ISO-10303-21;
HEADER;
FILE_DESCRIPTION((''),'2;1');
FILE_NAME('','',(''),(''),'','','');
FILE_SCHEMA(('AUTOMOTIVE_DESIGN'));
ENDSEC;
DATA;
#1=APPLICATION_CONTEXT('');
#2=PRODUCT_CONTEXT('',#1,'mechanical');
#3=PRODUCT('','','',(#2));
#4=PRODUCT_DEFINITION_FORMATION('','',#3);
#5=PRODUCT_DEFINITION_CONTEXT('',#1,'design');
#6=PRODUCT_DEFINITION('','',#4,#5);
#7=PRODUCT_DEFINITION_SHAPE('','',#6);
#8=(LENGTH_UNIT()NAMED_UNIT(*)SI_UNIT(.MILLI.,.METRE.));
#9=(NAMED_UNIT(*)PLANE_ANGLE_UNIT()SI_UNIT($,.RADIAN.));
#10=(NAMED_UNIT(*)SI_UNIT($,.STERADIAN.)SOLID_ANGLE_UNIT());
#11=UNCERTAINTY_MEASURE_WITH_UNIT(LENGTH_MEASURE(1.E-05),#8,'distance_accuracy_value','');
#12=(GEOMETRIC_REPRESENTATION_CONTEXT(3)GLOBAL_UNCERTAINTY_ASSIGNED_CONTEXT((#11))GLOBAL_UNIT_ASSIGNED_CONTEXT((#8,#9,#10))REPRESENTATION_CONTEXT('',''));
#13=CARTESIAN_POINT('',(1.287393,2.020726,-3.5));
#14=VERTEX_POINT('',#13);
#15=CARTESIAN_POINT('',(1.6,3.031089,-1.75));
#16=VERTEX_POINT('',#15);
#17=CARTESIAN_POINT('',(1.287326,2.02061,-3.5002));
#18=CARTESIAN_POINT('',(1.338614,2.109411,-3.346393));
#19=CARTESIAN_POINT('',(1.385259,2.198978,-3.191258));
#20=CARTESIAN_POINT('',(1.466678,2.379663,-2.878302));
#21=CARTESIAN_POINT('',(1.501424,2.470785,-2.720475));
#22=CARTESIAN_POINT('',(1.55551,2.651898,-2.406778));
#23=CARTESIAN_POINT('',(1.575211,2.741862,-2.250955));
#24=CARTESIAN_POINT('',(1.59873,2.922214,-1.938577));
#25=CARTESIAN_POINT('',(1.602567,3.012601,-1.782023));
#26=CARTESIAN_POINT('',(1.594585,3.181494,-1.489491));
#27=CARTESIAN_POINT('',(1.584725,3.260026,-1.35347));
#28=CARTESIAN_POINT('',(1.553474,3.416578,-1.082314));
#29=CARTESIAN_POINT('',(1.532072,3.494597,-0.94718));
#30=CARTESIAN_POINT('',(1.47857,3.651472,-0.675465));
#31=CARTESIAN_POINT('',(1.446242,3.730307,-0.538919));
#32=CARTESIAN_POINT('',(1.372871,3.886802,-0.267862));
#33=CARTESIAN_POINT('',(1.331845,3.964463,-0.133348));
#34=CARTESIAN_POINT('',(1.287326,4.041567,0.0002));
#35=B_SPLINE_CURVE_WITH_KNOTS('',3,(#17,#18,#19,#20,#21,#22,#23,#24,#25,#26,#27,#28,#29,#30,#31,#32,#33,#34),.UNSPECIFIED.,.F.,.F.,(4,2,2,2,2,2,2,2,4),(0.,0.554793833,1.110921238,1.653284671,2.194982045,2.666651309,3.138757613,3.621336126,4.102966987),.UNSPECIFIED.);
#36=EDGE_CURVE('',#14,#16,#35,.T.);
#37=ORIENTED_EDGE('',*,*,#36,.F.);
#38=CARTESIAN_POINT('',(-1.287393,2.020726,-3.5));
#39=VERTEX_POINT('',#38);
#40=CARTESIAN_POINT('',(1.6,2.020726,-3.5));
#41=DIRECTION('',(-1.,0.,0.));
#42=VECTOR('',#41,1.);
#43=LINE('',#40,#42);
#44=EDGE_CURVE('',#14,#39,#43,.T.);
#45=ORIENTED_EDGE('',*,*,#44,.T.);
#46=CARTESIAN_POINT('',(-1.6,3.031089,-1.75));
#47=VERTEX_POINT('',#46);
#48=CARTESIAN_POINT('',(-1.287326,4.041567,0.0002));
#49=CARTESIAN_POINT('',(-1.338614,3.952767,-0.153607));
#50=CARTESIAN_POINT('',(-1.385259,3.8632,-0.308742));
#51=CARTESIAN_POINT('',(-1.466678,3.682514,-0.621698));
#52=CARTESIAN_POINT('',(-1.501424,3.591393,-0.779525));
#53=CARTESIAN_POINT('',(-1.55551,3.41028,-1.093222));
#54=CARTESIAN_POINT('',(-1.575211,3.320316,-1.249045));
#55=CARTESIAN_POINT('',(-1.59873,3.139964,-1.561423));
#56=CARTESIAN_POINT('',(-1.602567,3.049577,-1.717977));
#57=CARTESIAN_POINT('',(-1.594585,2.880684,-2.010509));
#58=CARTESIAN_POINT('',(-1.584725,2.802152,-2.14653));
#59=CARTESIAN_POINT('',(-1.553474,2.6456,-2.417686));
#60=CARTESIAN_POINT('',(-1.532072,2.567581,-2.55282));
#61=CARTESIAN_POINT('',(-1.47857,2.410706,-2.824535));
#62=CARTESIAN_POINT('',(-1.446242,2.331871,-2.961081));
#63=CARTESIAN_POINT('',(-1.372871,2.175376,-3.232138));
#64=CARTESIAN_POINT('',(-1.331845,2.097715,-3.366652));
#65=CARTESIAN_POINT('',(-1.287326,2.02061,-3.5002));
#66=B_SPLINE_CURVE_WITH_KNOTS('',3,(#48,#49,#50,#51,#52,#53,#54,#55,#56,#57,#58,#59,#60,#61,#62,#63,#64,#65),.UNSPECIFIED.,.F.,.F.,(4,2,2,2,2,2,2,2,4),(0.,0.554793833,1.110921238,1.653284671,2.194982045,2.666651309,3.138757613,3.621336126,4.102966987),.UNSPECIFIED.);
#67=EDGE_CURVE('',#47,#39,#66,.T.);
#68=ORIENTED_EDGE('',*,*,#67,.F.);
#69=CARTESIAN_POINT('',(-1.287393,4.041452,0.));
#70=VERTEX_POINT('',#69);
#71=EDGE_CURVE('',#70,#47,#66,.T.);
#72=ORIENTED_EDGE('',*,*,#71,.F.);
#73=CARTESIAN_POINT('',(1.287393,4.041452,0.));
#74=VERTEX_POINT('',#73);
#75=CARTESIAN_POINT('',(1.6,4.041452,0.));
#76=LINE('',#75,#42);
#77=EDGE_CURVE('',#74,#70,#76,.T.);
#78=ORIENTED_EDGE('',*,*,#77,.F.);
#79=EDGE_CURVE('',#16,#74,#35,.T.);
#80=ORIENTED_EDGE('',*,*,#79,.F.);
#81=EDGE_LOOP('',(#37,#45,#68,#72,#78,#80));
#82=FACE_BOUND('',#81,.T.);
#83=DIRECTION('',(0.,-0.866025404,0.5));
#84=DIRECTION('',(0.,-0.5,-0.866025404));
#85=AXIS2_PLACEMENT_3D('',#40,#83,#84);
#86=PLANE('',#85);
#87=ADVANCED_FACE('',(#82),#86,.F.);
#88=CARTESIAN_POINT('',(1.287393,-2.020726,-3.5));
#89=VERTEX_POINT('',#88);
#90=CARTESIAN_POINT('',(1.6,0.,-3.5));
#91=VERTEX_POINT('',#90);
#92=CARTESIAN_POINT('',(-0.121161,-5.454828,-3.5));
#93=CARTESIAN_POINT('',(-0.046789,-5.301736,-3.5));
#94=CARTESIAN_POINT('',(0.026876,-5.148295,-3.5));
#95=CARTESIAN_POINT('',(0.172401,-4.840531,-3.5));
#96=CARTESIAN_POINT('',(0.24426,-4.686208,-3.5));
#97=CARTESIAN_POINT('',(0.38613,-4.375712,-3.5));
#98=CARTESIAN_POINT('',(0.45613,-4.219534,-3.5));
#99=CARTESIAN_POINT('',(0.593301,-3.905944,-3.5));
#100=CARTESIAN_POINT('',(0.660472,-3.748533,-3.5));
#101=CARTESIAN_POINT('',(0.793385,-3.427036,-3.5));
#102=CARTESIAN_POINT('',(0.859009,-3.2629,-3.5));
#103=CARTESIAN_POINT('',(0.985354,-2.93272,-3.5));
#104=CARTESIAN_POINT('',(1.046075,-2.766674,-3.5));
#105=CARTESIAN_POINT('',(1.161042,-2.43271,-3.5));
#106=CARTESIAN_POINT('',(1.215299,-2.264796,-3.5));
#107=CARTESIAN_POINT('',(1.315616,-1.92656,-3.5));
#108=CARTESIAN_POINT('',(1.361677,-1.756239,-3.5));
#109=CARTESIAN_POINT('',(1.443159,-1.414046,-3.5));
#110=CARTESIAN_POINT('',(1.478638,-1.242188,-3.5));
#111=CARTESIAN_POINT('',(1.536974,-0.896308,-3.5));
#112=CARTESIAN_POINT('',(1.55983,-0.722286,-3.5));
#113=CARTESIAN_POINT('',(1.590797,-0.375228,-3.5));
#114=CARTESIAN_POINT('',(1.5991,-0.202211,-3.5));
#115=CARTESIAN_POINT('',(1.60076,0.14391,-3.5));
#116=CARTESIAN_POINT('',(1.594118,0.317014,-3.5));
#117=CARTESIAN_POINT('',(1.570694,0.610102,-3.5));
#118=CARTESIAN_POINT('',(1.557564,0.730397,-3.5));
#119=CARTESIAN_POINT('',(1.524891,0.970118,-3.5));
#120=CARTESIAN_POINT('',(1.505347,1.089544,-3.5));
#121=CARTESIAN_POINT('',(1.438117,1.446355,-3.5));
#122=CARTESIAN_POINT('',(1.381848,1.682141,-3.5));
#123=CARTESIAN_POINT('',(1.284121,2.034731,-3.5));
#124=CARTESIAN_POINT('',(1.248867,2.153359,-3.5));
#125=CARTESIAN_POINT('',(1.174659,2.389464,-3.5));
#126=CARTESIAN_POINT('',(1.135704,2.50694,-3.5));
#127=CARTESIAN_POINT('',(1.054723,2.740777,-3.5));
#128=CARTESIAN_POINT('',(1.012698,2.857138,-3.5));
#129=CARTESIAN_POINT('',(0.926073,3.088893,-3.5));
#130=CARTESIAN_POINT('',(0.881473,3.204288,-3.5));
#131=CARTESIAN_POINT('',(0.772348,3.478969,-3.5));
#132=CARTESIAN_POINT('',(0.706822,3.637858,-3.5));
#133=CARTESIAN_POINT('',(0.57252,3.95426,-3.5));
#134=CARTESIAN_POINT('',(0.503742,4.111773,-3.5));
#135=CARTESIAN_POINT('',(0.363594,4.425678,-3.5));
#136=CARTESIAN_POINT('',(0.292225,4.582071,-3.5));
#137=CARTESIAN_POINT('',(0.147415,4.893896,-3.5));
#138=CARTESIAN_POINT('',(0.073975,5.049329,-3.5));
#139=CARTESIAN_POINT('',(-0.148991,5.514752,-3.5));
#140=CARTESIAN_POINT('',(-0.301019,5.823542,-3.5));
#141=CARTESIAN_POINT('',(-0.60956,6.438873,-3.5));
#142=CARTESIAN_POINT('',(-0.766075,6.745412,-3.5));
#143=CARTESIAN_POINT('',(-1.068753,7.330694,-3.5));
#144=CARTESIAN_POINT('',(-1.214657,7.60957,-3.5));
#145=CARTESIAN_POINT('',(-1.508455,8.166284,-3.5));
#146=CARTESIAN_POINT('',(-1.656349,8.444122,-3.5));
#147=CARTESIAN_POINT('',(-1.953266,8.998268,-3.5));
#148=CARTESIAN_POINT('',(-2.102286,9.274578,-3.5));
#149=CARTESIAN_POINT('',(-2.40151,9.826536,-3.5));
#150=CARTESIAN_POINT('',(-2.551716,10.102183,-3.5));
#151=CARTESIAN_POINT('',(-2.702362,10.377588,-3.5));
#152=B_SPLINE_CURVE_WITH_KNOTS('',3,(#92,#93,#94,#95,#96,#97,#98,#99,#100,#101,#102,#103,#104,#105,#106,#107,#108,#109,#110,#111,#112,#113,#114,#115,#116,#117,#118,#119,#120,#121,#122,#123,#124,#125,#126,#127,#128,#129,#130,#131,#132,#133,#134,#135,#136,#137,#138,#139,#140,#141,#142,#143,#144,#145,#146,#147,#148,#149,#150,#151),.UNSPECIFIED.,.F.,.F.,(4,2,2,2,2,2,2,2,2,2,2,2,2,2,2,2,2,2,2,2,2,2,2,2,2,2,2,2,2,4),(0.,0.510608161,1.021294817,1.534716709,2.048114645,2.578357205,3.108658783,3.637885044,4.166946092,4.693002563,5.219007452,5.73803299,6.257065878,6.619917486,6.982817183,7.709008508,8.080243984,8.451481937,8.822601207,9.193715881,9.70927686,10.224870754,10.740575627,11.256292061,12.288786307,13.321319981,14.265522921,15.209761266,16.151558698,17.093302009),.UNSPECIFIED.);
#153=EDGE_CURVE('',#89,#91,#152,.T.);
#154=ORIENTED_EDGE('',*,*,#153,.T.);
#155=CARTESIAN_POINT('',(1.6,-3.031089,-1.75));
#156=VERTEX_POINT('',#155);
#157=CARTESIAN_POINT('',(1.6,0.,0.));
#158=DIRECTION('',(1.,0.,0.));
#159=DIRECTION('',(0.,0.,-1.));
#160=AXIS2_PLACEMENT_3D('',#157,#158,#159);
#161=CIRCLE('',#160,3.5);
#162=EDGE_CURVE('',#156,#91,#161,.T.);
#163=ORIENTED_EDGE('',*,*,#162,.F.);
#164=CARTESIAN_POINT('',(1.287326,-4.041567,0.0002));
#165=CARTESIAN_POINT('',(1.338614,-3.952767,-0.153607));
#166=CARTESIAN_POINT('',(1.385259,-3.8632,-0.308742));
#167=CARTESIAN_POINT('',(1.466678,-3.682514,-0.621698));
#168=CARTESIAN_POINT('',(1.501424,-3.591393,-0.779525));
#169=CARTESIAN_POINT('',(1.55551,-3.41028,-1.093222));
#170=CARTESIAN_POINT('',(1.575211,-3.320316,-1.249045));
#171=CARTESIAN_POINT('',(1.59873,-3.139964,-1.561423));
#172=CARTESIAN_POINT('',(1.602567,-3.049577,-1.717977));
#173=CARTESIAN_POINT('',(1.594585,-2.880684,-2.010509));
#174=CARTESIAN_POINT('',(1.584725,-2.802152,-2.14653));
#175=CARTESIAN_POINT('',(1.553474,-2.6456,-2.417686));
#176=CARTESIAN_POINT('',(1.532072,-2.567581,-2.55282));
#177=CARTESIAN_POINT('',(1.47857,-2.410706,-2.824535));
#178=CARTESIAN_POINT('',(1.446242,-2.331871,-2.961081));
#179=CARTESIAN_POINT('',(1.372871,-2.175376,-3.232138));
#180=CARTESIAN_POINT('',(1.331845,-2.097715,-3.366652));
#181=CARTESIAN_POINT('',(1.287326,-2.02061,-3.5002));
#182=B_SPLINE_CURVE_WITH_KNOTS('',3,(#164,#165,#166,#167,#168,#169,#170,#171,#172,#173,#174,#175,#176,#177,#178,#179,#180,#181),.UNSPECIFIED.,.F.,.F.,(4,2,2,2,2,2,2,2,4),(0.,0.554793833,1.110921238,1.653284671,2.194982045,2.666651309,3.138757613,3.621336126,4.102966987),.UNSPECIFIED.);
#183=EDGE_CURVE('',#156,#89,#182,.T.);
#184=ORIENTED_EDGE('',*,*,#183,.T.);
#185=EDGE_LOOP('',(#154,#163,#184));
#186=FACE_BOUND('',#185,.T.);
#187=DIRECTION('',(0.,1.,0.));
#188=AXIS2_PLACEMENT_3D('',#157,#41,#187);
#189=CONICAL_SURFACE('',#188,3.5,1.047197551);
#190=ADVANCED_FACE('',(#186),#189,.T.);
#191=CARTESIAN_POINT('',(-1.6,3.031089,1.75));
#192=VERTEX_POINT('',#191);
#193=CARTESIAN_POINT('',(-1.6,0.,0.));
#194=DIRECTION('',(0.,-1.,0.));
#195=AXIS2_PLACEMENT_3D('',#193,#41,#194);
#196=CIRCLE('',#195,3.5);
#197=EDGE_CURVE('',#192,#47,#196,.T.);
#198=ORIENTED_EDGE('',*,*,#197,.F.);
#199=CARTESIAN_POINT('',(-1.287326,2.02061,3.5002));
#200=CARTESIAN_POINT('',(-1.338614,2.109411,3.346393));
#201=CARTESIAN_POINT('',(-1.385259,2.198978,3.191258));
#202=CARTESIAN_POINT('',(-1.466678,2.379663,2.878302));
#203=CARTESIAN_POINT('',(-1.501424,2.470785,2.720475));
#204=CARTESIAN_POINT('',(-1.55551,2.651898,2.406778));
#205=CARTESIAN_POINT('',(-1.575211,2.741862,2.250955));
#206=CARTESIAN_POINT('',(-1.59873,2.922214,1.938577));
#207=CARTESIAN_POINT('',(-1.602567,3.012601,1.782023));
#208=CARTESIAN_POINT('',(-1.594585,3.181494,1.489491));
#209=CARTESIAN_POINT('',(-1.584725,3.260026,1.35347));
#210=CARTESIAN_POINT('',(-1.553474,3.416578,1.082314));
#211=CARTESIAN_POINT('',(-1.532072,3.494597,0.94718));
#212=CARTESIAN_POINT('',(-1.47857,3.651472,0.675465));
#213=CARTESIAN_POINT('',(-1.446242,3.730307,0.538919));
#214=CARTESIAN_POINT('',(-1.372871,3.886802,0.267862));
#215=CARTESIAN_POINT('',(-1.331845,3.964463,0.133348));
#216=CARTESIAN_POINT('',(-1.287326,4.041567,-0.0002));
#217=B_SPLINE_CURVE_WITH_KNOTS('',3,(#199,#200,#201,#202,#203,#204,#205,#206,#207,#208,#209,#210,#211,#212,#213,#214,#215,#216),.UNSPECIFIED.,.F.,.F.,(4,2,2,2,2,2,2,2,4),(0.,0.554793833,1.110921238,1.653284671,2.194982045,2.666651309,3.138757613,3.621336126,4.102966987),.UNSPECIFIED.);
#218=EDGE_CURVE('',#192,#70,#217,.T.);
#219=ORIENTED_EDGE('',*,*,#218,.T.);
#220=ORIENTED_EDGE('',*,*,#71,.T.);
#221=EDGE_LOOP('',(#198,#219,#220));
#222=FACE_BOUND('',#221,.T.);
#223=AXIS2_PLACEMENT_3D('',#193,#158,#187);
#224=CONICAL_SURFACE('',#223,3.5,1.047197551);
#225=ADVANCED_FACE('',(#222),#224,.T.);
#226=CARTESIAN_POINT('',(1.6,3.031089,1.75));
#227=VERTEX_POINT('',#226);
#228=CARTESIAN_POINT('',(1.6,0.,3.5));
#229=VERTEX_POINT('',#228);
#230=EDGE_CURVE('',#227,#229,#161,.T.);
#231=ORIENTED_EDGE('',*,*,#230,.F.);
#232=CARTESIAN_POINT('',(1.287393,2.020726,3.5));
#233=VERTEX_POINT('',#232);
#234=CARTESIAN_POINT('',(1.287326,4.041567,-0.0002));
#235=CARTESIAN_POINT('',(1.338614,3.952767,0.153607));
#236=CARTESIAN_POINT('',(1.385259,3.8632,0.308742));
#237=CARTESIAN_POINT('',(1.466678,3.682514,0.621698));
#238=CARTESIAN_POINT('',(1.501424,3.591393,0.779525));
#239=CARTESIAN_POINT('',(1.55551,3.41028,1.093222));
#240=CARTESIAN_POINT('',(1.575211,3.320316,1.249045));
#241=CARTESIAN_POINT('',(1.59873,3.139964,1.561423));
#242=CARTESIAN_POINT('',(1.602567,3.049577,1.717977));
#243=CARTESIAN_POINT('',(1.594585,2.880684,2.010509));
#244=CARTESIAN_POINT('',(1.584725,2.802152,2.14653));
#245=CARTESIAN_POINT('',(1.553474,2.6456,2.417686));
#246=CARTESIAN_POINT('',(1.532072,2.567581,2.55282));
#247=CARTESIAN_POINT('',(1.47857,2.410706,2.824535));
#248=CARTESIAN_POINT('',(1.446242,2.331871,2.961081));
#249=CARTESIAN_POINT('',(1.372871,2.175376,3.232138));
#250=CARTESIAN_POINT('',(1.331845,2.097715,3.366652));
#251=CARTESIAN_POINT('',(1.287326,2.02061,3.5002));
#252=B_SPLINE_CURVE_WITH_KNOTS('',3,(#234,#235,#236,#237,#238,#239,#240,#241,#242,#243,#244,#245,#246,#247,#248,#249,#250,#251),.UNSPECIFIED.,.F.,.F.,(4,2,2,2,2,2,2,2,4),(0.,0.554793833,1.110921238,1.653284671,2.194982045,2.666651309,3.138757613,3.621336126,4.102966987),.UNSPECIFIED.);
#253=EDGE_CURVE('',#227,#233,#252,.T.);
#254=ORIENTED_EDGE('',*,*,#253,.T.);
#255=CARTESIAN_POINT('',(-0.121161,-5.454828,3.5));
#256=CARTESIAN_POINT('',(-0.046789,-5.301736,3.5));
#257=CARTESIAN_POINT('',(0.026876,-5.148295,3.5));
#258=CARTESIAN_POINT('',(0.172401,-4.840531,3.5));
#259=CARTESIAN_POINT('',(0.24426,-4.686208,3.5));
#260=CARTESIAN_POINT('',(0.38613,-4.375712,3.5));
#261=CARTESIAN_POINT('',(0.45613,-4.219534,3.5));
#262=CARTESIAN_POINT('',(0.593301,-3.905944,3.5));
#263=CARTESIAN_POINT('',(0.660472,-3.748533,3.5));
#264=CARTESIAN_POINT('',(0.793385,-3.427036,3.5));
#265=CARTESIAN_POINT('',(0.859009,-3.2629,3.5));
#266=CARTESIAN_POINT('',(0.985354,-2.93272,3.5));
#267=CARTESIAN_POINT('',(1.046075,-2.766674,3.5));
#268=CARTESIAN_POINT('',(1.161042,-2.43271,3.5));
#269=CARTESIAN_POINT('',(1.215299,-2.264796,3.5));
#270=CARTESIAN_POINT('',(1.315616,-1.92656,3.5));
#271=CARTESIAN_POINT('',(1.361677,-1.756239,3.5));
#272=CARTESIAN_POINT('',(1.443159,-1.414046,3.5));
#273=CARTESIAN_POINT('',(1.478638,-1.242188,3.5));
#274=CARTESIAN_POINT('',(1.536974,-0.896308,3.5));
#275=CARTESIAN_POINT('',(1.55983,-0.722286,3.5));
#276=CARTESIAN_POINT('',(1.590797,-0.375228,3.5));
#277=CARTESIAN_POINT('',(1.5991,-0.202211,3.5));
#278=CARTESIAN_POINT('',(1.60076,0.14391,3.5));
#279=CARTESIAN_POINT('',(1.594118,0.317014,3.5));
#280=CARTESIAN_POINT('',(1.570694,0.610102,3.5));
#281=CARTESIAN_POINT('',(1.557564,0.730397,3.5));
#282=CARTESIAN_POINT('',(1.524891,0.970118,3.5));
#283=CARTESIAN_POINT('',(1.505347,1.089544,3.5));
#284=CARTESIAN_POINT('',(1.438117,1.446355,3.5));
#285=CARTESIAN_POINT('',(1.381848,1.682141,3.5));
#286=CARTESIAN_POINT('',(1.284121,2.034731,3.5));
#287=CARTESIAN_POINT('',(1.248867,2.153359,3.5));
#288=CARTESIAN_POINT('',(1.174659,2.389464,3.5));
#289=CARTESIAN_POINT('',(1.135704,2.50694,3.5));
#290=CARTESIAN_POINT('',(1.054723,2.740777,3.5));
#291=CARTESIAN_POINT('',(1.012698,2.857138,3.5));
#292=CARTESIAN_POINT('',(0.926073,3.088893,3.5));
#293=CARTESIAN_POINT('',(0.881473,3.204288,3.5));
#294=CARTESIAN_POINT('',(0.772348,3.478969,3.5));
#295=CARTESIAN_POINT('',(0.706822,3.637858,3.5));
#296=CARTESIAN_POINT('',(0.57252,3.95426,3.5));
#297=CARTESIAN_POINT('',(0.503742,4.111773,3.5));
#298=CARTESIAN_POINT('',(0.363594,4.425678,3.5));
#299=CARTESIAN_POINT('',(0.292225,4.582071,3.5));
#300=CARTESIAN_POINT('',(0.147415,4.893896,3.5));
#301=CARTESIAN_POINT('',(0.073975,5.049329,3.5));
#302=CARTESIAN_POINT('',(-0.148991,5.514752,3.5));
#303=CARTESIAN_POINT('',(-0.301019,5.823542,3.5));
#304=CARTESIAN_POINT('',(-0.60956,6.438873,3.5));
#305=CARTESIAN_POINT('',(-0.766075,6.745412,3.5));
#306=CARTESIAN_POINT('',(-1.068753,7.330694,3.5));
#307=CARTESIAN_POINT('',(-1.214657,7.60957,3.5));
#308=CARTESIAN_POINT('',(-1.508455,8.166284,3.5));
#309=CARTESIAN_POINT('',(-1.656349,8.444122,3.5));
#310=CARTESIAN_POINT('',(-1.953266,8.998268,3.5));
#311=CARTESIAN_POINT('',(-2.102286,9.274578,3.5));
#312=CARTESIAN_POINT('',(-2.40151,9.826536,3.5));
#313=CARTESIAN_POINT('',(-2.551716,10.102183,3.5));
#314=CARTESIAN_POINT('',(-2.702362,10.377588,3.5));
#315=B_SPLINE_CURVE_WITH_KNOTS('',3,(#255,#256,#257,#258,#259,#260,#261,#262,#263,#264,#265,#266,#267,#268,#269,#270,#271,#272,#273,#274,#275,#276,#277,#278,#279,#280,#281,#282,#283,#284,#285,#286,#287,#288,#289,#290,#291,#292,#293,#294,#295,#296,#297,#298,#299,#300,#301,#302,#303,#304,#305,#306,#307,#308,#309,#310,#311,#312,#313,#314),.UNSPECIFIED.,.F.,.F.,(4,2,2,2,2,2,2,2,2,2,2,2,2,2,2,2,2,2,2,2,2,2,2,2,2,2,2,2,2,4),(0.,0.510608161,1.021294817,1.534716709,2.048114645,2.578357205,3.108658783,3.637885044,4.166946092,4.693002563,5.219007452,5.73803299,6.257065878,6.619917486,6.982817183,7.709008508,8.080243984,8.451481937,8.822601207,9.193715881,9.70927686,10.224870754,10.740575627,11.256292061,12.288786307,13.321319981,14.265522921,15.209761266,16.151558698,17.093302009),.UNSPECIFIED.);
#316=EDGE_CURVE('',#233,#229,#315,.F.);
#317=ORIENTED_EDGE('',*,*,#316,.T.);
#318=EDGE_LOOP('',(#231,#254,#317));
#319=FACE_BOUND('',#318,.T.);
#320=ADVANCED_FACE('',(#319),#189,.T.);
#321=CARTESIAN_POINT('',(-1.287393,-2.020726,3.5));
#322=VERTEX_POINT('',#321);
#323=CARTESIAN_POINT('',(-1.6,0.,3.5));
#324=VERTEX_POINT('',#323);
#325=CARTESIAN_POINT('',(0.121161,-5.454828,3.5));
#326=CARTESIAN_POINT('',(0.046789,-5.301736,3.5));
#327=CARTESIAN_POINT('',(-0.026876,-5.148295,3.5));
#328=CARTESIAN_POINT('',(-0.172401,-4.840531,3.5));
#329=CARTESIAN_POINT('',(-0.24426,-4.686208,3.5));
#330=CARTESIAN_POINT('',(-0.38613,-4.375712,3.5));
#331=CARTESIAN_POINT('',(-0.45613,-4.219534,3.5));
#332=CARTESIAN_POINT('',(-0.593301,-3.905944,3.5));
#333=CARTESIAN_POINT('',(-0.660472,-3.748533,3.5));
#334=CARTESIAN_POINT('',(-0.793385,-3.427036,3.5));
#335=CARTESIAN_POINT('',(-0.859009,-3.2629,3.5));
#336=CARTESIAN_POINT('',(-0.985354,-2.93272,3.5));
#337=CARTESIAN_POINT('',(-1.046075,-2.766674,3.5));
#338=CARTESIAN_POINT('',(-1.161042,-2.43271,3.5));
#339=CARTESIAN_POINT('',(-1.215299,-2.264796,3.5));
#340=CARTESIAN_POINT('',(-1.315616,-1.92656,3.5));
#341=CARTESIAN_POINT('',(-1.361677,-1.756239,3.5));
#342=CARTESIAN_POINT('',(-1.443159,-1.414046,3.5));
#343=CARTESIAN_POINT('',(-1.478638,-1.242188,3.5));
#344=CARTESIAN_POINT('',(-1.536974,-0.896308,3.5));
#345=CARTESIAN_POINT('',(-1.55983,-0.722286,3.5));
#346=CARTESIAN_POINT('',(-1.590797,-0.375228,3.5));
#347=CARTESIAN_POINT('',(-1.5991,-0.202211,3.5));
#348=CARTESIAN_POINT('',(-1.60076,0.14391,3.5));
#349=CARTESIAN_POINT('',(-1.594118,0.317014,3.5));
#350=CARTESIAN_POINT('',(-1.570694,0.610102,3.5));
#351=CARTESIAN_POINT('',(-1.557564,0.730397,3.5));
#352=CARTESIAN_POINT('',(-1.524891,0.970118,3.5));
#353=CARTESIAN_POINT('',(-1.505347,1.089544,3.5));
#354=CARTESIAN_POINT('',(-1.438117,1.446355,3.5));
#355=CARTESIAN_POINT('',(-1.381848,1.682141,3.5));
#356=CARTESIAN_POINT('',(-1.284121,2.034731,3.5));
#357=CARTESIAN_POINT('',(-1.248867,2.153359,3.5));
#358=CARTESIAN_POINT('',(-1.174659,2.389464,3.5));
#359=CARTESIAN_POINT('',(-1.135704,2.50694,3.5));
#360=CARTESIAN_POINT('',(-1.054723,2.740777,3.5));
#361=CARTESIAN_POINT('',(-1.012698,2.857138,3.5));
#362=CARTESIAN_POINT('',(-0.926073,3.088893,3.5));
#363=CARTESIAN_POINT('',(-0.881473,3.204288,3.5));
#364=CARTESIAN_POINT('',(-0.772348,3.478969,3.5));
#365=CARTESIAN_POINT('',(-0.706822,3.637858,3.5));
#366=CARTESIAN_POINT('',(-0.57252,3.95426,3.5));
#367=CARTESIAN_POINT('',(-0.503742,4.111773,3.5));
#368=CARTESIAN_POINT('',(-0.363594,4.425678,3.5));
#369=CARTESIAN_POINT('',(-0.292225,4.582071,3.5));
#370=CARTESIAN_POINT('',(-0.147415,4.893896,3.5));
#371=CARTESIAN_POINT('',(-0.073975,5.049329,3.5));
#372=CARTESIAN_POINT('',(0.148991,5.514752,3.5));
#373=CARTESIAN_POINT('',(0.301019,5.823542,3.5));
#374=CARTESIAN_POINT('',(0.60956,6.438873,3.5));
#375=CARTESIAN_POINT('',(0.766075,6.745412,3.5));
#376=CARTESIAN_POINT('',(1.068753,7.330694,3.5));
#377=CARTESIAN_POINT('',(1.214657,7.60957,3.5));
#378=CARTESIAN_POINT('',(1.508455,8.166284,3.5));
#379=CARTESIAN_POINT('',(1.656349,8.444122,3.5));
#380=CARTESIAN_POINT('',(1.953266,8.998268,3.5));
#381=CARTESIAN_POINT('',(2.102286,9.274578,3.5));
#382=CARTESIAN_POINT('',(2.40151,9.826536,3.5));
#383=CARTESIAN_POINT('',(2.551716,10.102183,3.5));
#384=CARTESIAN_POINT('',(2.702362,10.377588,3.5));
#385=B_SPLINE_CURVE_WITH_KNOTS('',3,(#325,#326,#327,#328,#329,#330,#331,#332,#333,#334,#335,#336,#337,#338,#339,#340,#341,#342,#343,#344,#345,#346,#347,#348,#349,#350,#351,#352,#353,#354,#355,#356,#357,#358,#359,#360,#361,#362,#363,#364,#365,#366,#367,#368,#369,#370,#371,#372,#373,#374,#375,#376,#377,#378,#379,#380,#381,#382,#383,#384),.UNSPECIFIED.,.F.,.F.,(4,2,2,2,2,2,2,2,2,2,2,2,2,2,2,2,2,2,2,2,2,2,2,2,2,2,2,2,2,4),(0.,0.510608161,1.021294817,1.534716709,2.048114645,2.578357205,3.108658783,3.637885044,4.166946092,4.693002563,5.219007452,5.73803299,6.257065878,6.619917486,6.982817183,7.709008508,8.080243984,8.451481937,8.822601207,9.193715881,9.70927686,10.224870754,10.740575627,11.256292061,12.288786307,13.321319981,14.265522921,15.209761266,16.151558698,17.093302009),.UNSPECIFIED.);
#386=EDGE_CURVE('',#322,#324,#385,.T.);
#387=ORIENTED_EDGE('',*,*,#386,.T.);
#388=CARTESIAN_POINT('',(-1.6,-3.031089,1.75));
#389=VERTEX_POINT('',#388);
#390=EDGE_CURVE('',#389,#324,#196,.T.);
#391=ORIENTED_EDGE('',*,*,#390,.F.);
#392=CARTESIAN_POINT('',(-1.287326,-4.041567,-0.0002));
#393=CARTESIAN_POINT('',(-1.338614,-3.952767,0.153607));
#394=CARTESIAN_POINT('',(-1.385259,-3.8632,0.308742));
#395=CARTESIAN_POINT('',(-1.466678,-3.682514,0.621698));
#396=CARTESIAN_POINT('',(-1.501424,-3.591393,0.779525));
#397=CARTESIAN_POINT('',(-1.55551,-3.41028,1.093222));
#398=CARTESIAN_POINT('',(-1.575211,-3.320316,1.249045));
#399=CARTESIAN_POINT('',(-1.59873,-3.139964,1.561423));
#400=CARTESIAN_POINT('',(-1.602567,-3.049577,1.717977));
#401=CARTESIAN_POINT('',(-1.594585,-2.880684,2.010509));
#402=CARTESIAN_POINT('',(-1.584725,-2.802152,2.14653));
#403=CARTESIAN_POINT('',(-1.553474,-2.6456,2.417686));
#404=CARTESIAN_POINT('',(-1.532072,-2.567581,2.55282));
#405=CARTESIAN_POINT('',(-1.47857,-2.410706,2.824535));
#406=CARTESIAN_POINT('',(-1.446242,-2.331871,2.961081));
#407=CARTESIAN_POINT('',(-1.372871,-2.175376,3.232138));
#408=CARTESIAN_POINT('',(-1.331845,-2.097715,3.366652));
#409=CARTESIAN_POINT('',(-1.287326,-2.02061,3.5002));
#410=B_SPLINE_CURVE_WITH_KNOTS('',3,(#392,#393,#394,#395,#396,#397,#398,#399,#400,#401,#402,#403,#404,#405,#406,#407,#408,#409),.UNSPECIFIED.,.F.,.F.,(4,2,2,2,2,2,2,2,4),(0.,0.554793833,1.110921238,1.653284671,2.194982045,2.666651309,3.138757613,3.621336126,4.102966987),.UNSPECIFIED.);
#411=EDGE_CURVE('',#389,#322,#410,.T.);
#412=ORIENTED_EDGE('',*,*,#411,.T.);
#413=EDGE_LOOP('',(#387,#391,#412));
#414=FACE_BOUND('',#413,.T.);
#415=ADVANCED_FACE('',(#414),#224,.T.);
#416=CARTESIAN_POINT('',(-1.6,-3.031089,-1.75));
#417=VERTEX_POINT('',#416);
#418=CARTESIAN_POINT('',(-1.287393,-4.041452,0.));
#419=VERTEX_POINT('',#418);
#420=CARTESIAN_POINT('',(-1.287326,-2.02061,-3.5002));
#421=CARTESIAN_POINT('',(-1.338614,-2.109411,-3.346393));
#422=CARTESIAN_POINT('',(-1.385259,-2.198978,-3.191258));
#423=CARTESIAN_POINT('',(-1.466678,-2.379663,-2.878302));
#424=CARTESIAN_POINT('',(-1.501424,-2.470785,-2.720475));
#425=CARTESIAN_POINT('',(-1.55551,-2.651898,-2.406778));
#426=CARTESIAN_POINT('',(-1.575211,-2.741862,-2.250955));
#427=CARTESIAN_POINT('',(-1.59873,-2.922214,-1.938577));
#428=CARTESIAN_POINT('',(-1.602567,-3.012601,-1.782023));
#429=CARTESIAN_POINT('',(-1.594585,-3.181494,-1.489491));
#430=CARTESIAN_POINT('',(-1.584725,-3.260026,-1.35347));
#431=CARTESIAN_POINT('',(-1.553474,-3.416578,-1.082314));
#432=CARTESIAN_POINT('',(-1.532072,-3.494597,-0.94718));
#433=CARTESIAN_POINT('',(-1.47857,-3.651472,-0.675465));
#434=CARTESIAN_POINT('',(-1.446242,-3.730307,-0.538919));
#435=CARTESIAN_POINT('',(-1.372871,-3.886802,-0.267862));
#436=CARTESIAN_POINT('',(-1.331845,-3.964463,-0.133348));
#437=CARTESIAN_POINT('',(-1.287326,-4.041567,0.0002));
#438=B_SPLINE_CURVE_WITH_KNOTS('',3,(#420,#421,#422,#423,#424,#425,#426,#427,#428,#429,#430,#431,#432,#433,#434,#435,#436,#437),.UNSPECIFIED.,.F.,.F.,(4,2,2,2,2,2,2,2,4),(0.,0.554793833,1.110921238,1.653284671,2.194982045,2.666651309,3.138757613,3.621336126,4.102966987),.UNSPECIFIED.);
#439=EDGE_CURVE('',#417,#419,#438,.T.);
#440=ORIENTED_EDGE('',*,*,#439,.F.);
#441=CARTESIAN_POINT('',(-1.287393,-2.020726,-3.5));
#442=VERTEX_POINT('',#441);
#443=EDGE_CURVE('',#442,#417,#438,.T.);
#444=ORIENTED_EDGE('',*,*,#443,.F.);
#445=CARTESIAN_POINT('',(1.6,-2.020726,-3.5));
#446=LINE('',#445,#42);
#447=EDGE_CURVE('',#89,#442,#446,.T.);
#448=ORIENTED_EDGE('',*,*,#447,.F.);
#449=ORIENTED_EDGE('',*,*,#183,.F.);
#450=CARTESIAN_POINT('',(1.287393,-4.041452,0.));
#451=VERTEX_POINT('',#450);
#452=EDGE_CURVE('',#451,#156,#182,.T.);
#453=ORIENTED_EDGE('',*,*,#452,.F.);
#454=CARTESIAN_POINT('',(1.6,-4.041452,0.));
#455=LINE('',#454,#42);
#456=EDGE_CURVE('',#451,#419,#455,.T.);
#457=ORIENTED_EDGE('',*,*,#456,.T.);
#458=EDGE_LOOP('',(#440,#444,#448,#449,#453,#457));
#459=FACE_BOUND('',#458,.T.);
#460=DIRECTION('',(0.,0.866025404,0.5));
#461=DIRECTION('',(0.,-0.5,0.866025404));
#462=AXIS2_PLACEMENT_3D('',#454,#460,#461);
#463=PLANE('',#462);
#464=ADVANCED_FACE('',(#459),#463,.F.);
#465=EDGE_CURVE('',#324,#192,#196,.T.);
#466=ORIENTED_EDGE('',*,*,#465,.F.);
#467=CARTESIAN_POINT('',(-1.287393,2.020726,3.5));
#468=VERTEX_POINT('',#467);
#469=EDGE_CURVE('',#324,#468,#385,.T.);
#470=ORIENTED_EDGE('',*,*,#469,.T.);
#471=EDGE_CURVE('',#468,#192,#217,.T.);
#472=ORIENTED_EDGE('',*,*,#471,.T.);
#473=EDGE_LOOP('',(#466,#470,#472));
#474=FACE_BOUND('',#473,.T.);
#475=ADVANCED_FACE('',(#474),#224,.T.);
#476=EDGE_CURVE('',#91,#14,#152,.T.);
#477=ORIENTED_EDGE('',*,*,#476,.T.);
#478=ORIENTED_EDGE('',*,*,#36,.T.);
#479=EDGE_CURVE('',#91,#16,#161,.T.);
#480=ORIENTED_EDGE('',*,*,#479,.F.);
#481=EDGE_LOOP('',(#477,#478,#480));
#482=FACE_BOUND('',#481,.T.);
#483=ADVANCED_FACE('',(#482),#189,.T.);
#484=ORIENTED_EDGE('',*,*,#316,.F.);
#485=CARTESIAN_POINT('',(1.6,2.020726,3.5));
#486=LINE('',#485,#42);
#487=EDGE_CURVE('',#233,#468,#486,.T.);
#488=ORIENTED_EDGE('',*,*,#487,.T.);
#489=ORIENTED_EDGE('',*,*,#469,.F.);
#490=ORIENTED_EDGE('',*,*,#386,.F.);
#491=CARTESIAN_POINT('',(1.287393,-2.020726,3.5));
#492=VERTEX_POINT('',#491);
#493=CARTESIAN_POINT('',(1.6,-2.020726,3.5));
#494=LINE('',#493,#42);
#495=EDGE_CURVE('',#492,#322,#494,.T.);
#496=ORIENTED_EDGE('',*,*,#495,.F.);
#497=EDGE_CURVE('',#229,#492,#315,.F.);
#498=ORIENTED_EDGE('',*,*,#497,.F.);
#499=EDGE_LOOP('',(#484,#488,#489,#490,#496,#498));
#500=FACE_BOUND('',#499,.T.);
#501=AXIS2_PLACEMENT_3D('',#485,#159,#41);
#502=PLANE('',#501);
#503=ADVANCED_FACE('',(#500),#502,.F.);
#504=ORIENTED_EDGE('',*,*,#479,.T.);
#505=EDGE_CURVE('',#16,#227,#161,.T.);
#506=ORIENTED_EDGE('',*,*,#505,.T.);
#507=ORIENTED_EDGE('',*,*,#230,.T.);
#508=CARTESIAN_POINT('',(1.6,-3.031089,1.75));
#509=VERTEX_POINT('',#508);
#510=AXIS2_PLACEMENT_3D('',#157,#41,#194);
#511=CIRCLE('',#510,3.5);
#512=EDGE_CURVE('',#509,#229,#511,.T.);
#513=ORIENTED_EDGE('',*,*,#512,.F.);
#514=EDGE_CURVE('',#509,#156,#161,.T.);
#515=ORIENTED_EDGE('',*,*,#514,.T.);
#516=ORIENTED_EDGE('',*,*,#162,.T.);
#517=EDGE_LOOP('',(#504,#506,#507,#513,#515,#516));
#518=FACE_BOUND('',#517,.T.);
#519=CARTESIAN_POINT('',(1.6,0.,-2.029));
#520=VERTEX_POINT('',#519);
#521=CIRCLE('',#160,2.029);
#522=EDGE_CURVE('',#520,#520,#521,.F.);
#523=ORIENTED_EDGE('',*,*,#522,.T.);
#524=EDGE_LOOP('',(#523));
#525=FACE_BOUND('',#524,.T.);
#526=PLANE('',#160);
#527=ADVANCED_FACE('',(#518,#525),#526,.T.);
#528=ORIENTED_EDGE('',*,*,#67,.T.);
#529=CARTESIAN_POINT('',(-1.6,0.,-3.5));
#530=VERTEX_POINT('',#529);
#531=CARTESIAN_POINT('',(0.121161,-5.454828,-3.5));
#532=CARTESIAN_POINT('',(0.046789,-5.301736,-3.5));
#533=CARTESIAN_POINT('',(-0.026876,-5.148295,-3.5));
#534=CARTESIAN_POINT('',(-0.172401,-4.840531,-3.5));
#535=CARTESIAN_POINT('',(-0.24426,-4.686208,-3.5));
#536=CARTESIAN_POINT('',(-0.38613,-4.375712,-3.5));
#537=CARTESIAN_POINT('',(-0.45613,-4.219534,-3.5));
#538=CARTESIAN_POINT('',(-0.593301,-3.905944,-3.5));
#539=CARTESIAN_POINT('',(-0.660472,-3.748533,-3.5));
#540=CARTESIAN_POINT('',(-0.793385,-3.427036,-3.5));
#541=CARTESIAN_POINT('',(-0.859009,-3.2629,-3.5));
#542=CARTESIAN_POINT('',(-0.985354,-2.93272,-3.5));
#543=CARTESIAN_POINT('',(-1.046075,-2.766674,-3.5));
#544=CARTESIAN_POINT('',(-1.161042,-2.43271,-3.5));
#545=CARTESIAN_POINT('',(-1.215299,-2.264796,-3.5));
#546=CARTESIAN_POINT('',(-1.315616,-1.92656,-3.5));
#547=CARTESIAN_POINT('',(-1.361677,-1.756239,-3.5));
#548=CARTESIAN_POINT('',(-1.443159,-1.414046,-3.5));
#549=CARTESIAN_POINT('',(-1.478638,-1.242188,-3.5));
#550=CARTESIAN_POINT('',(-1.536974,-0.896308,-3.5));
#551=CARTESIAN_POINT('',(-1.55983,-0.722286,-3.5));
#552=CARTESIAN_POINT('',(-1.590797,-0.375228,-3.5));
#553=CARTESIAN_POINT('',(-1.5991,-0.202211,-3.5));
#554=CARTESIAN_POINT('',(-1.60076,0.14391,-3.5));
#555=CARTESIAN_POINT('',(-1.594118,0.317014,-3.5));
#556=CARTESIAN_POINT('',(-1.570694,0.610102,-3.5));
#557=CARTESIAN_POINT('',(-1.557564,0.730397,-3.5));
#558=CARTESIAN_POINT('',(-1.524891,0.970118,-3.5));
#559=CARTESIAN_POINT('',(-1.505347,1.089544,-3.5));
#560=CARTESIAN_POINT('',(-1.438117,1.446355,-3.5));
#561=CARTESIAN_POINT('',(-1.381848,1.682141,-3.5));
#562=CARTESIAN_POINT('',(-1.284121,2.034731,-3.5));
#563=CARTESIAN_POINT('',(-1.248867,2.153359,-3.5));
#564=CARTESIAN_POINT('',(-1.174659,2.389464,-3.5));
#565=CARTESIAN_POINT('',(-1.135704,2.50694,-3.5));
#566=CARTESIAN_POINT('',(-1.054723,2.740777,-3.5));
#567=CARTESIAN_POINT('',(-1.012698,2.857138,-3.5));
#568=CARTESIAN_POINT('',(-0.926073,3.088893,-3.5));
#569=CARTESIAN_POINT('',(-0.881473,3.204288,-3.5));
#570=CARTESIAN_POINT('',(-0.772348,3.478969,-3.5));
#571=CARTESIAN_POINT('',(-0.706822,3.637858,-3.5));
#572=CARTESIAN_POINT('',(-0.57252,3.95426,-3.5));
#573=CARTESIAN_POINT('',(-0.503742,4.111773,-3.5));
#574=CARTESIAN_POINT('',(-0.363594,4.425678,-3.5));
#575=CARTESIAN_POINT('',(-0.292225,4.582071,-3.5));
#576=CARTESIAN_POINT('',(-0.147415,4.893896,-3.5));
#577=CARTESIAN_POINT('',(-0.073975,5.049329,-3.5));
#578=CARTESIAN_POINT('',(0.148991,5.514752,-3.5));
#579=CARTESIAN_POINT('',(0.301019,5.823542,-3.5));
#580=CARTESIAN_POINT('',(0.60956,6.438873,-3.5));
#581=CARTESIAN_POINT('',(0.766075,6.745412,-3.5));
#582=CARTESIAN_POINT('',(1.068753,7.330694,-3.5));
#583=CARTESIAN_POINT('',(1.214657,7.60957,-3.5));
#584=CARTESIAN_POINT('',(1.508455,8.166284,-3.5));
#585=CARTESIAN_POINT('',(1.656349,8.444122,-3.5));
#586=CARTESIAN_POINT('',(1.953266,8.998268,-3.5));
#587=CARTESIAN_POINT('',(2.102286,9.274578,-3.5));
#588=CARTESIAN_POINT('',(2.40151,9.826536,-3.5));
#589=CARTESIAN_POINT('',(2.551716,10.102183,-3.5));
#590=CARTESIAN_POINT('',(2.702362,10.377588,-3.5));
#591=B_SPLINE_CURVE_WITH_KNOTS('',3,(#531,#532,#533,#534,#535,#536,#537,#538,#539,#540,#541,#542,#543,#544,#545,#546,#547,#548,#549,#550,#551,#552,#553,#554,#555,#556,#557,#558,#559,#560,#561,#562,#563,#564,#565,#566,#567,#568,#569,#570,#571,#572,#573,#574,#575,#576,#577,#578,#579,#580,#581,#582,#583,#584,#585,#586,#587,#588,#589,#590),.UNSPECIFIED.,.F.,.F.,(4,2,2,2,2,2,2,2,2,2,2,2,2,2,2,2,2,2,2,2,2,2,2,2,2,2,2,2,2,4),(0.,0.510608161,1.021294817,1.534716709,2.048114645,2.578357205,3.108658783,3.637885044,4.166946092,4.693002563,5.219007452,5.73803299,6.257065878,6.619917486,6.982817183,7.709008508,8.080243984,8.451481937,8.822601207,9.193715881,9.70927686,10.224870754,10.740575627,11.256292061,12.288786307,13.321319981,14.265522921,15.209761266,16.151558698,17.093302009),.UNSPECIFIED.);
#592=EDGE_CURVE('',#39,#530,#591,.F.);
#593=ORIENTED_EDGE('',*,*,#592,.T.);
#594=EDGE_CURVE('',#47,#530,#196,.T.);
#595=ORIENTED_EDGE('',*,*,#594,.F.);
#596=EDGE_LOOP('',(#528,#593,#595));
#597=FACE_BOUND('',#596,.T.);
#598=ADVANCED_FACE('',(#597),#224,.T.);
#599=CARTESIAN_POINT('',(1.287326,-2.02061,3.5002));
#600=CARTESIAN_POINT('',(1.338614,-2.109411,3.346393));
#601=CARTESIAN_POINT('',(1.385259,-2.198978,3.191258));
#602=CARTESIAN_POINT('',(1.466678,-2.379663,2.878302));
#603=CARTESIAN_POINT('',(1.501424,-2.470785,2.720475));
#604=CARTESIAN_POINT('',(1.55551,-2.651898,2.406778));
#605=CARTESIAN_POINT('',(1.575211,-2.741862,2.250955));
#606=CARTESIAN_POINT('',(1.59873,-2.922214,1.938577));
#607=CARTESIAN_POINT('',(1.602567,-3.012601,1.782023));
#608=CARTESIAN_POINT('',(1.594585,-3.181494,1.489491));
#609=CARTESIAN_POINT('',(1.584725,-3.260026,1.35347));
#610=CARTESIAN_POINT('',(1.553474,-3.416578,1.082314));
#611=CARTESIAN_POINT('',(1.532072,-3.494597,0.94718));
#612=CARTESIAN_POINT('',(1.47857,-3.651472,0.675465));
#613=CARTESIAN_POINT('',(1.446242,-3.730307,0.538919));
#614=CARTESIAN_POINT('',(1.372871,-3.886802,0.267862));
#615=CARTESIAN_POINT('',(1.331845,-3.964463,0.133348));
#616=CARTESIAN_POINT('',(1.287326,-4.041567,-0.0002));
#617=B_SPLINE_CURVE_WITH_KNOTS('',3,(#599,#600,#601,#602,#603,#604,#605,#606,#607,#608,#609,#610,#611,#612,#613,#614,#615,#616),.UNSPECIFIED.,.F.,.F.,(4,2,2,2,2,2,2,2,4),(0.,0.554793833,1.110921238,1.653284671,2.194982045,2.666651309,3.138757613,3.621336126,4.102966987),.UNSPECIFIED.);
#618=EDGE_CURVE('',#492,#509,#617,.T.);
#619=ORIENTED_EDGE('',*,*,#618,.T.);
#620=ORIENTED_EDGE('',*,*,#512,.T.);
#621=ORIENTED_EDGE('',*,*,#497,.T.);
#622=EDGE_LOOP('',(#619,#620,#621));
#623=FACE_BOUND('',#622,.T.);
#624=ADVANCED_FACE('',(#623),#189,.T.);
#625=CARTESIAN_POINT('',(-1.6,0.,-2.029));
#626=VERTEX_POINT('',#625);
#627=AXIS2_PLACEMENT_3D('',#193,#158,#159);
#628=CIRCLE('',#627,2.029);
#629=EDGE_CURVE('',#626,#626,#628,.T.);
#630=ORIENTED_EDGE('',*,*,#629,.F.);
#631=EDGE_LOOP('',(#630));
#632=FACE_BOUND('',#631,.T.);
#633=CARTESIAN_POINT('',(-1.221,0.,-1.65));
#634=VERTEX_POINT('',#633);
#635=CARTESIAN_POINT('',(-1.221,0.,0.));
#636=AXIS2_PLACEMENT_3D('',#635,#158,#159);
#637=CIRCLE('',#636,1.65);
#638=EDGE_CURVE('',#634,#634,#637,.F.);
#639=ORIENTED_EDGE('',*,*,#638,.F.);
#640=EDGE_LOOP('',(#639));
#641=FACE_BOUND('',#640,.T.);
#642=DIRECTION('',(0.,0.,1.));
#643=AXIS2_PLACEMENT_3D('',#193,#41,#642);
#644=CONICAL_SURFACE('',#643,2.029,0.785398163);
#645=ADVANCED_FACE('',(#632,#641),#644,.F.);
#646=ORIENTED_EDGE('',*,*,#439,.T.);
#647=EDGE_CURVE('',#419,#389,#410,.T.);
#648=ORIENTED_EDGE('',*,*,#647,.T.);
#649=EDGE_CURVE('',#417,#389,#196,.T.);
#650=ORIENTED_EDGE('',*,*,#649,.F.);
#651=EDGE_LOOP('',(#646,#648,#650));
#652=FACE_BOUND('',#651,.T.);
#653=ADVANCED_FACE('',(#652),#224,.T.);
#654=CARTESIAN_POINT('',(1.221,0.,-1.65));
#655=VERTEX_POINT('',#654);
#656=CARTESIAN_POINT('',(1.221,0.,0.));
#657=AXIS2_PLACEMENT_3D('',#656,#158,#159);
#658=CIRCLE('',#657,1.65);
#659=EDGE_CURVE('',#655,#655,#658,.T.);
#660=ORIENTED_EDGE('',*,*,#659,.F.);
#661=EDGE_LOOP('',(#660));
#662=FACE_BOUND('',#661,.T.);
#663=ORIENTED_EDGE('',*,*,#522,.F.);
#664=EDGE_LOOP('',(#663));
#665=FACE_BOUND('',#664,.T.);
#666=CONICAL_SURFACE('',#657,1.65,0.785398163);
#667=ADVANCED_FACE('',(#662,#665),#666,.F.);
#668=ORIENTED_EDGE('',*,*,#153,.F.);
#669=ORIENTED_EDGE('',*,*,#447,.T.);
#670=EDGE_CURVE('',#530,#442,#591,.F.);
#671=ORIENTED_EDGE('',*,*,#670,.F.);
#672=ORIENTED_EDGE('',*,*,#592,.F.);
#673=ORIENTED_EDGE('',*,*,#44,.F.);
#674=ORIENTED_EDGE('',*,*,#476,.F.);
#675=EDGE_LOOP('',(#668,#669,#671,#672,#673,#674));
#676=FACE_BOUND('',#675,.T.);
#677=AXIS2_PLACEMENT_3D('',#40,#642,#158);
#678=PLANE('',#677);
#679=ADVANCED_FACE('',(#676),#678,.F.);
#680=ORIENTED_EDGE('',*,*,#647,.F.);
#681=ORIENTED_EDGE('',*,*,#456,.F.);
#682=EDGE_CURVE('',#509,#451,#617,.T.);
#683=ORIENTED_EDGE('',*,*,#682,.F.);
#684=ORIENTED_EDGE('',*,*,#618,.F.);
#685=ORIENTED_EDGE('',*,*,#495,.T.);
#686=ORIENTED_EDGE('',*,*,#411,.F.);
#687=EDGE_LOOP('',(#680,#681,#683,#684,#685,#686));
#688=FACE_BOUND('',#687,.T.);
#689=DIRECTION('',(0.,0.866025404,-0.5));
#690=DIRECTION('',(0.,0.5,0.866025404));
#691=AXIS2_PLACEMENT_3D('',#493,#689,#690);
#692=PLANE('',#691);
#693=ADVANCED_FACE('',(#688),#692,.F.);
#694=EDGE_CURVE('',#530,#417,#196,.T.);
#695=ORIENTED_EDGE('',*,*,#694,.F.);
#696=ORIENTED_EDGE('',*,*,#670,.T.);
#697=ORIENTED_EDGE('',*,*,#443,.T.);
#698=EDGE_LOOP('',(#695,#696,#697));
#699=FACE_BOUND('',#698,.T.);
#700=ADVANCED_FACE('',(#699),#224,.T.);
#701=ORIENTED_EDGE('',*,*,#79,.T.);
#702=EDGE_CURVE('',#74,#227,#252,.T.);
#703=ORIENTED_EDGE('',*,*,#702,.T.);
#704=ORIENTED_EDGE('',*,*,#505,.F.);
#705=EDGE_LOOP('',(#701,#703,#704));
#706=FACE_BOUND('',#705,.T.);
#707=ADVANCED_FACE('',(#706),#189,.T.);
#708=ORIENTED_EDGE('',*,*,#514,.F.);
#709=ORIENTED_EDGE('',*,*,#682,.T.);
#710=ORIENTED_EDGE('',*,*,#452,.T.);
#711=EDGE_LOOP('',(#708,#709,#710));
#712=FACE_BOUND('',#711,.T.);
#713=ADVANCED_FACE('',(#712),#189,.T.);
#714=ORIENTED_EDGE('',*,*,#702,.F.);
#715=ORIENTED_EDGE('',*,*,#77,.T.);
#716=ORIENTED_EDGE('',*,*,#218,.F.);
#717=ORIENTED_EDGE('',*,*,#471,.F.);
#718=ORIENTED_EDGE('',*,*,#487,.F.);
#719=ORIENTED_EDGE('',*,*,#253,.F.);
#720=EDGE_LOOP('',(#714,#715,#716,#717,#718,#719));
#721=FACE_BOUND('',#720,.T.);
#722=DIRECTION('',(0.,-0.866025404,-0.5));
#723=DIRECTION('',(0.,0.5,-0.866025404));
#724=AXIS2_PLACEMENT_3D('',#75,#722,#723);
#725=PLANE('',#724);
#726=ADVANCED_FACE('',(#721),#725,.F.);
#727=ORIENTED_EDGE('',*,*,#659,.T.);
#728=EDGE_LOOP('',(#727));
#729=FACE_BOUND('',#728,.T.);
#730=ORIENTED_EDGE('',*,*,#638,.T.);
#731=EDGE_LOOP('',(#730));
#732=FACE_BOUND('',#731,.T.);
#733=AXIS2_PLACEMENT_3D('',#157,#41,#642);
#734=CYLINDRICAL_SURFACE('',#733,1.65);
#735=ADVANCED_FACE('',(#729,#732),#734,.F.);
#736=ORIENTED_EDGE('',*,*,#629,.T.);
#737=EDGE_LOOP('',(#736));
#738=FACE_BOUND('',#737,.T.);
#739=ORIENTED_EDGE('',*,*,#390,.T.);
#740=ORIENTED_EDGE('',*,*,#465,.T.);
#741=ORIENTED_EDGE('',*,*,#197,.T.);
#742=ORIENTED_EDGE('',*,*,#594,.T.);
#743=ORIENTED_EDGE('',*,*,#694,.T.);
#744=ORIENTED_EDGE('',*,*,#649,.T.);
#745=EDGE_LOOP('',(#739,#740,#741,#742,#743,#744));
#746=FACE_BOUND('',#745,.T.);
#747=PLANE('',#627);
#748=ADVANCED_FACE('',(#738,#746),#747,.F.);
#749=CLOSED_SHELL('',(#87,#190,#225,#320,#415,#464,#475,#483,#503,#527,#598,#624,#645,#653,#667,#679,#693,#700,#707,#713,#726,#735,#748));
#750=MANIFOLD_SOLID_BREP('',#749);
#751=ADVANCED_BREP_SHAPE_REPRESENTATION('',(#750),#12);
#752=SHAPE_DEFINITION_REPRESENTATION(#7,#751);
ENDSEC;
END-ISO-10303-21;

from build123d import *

# Parameters (mm, degrees)
SKETCH1_R           = 1.65
BOSS_EXTRUDE1_DEPTH = 1.6
CHAMFER1_SIZE       = 0.379


with BuildPart() as part:
    # Sketch1 → Boss-Extrude1 (new, symmetric)
    with BuildSketch(Plane(origin=(0, 0, 0), x_dir=(0, 0, -1), z_dir=(1, 0, 0))):
        Polygon((3.5, 2.020725942), (3.5, -2.020725942), (0, -4.041451884), (-3.5, -2.020725942), (-3.5, 2.020725942), (0, 4.041451884), align=None)
        Circle(SKETCH1_R, mode=Mode.SUBTRACT)
    extrude(amount=BOSS_EXTRUDE1_DEPTH, both=True)

    # Sketch4 → Cut-Revolve1 (revolve, cut)
    with BuildSketch(Plane.XY):
        Polygon((-1.6, 3.5), (-1.6, 5.227530151), (-0.602610002, 5.227530151), align=None)
    cut_revolve1 = revolve(axis=Axis((-2.7190736, 0, 0), (1, 0, 0)), mode=Mode.SUBTRACT)

    # Mirror1: Cut-Revolve1 across plane
    add(cut_revolve1.mirror(Plane(origin=(0, 0, 0), x_dir=(0, 0, 1), z_dir=(1, 0, 0))), mode=Mode.SUBTRACT)

    # Chamfer1
    chamfer1_edges = [part.edges().sort_by_distance(p)[0] for p in [
        (-1.6, 0, 1.65),
        (1.6, 0, 1.65),
    ]]
    chamfer(chamfer1_edges, length=CHAMFER1_SIZE)


solid = part.part
